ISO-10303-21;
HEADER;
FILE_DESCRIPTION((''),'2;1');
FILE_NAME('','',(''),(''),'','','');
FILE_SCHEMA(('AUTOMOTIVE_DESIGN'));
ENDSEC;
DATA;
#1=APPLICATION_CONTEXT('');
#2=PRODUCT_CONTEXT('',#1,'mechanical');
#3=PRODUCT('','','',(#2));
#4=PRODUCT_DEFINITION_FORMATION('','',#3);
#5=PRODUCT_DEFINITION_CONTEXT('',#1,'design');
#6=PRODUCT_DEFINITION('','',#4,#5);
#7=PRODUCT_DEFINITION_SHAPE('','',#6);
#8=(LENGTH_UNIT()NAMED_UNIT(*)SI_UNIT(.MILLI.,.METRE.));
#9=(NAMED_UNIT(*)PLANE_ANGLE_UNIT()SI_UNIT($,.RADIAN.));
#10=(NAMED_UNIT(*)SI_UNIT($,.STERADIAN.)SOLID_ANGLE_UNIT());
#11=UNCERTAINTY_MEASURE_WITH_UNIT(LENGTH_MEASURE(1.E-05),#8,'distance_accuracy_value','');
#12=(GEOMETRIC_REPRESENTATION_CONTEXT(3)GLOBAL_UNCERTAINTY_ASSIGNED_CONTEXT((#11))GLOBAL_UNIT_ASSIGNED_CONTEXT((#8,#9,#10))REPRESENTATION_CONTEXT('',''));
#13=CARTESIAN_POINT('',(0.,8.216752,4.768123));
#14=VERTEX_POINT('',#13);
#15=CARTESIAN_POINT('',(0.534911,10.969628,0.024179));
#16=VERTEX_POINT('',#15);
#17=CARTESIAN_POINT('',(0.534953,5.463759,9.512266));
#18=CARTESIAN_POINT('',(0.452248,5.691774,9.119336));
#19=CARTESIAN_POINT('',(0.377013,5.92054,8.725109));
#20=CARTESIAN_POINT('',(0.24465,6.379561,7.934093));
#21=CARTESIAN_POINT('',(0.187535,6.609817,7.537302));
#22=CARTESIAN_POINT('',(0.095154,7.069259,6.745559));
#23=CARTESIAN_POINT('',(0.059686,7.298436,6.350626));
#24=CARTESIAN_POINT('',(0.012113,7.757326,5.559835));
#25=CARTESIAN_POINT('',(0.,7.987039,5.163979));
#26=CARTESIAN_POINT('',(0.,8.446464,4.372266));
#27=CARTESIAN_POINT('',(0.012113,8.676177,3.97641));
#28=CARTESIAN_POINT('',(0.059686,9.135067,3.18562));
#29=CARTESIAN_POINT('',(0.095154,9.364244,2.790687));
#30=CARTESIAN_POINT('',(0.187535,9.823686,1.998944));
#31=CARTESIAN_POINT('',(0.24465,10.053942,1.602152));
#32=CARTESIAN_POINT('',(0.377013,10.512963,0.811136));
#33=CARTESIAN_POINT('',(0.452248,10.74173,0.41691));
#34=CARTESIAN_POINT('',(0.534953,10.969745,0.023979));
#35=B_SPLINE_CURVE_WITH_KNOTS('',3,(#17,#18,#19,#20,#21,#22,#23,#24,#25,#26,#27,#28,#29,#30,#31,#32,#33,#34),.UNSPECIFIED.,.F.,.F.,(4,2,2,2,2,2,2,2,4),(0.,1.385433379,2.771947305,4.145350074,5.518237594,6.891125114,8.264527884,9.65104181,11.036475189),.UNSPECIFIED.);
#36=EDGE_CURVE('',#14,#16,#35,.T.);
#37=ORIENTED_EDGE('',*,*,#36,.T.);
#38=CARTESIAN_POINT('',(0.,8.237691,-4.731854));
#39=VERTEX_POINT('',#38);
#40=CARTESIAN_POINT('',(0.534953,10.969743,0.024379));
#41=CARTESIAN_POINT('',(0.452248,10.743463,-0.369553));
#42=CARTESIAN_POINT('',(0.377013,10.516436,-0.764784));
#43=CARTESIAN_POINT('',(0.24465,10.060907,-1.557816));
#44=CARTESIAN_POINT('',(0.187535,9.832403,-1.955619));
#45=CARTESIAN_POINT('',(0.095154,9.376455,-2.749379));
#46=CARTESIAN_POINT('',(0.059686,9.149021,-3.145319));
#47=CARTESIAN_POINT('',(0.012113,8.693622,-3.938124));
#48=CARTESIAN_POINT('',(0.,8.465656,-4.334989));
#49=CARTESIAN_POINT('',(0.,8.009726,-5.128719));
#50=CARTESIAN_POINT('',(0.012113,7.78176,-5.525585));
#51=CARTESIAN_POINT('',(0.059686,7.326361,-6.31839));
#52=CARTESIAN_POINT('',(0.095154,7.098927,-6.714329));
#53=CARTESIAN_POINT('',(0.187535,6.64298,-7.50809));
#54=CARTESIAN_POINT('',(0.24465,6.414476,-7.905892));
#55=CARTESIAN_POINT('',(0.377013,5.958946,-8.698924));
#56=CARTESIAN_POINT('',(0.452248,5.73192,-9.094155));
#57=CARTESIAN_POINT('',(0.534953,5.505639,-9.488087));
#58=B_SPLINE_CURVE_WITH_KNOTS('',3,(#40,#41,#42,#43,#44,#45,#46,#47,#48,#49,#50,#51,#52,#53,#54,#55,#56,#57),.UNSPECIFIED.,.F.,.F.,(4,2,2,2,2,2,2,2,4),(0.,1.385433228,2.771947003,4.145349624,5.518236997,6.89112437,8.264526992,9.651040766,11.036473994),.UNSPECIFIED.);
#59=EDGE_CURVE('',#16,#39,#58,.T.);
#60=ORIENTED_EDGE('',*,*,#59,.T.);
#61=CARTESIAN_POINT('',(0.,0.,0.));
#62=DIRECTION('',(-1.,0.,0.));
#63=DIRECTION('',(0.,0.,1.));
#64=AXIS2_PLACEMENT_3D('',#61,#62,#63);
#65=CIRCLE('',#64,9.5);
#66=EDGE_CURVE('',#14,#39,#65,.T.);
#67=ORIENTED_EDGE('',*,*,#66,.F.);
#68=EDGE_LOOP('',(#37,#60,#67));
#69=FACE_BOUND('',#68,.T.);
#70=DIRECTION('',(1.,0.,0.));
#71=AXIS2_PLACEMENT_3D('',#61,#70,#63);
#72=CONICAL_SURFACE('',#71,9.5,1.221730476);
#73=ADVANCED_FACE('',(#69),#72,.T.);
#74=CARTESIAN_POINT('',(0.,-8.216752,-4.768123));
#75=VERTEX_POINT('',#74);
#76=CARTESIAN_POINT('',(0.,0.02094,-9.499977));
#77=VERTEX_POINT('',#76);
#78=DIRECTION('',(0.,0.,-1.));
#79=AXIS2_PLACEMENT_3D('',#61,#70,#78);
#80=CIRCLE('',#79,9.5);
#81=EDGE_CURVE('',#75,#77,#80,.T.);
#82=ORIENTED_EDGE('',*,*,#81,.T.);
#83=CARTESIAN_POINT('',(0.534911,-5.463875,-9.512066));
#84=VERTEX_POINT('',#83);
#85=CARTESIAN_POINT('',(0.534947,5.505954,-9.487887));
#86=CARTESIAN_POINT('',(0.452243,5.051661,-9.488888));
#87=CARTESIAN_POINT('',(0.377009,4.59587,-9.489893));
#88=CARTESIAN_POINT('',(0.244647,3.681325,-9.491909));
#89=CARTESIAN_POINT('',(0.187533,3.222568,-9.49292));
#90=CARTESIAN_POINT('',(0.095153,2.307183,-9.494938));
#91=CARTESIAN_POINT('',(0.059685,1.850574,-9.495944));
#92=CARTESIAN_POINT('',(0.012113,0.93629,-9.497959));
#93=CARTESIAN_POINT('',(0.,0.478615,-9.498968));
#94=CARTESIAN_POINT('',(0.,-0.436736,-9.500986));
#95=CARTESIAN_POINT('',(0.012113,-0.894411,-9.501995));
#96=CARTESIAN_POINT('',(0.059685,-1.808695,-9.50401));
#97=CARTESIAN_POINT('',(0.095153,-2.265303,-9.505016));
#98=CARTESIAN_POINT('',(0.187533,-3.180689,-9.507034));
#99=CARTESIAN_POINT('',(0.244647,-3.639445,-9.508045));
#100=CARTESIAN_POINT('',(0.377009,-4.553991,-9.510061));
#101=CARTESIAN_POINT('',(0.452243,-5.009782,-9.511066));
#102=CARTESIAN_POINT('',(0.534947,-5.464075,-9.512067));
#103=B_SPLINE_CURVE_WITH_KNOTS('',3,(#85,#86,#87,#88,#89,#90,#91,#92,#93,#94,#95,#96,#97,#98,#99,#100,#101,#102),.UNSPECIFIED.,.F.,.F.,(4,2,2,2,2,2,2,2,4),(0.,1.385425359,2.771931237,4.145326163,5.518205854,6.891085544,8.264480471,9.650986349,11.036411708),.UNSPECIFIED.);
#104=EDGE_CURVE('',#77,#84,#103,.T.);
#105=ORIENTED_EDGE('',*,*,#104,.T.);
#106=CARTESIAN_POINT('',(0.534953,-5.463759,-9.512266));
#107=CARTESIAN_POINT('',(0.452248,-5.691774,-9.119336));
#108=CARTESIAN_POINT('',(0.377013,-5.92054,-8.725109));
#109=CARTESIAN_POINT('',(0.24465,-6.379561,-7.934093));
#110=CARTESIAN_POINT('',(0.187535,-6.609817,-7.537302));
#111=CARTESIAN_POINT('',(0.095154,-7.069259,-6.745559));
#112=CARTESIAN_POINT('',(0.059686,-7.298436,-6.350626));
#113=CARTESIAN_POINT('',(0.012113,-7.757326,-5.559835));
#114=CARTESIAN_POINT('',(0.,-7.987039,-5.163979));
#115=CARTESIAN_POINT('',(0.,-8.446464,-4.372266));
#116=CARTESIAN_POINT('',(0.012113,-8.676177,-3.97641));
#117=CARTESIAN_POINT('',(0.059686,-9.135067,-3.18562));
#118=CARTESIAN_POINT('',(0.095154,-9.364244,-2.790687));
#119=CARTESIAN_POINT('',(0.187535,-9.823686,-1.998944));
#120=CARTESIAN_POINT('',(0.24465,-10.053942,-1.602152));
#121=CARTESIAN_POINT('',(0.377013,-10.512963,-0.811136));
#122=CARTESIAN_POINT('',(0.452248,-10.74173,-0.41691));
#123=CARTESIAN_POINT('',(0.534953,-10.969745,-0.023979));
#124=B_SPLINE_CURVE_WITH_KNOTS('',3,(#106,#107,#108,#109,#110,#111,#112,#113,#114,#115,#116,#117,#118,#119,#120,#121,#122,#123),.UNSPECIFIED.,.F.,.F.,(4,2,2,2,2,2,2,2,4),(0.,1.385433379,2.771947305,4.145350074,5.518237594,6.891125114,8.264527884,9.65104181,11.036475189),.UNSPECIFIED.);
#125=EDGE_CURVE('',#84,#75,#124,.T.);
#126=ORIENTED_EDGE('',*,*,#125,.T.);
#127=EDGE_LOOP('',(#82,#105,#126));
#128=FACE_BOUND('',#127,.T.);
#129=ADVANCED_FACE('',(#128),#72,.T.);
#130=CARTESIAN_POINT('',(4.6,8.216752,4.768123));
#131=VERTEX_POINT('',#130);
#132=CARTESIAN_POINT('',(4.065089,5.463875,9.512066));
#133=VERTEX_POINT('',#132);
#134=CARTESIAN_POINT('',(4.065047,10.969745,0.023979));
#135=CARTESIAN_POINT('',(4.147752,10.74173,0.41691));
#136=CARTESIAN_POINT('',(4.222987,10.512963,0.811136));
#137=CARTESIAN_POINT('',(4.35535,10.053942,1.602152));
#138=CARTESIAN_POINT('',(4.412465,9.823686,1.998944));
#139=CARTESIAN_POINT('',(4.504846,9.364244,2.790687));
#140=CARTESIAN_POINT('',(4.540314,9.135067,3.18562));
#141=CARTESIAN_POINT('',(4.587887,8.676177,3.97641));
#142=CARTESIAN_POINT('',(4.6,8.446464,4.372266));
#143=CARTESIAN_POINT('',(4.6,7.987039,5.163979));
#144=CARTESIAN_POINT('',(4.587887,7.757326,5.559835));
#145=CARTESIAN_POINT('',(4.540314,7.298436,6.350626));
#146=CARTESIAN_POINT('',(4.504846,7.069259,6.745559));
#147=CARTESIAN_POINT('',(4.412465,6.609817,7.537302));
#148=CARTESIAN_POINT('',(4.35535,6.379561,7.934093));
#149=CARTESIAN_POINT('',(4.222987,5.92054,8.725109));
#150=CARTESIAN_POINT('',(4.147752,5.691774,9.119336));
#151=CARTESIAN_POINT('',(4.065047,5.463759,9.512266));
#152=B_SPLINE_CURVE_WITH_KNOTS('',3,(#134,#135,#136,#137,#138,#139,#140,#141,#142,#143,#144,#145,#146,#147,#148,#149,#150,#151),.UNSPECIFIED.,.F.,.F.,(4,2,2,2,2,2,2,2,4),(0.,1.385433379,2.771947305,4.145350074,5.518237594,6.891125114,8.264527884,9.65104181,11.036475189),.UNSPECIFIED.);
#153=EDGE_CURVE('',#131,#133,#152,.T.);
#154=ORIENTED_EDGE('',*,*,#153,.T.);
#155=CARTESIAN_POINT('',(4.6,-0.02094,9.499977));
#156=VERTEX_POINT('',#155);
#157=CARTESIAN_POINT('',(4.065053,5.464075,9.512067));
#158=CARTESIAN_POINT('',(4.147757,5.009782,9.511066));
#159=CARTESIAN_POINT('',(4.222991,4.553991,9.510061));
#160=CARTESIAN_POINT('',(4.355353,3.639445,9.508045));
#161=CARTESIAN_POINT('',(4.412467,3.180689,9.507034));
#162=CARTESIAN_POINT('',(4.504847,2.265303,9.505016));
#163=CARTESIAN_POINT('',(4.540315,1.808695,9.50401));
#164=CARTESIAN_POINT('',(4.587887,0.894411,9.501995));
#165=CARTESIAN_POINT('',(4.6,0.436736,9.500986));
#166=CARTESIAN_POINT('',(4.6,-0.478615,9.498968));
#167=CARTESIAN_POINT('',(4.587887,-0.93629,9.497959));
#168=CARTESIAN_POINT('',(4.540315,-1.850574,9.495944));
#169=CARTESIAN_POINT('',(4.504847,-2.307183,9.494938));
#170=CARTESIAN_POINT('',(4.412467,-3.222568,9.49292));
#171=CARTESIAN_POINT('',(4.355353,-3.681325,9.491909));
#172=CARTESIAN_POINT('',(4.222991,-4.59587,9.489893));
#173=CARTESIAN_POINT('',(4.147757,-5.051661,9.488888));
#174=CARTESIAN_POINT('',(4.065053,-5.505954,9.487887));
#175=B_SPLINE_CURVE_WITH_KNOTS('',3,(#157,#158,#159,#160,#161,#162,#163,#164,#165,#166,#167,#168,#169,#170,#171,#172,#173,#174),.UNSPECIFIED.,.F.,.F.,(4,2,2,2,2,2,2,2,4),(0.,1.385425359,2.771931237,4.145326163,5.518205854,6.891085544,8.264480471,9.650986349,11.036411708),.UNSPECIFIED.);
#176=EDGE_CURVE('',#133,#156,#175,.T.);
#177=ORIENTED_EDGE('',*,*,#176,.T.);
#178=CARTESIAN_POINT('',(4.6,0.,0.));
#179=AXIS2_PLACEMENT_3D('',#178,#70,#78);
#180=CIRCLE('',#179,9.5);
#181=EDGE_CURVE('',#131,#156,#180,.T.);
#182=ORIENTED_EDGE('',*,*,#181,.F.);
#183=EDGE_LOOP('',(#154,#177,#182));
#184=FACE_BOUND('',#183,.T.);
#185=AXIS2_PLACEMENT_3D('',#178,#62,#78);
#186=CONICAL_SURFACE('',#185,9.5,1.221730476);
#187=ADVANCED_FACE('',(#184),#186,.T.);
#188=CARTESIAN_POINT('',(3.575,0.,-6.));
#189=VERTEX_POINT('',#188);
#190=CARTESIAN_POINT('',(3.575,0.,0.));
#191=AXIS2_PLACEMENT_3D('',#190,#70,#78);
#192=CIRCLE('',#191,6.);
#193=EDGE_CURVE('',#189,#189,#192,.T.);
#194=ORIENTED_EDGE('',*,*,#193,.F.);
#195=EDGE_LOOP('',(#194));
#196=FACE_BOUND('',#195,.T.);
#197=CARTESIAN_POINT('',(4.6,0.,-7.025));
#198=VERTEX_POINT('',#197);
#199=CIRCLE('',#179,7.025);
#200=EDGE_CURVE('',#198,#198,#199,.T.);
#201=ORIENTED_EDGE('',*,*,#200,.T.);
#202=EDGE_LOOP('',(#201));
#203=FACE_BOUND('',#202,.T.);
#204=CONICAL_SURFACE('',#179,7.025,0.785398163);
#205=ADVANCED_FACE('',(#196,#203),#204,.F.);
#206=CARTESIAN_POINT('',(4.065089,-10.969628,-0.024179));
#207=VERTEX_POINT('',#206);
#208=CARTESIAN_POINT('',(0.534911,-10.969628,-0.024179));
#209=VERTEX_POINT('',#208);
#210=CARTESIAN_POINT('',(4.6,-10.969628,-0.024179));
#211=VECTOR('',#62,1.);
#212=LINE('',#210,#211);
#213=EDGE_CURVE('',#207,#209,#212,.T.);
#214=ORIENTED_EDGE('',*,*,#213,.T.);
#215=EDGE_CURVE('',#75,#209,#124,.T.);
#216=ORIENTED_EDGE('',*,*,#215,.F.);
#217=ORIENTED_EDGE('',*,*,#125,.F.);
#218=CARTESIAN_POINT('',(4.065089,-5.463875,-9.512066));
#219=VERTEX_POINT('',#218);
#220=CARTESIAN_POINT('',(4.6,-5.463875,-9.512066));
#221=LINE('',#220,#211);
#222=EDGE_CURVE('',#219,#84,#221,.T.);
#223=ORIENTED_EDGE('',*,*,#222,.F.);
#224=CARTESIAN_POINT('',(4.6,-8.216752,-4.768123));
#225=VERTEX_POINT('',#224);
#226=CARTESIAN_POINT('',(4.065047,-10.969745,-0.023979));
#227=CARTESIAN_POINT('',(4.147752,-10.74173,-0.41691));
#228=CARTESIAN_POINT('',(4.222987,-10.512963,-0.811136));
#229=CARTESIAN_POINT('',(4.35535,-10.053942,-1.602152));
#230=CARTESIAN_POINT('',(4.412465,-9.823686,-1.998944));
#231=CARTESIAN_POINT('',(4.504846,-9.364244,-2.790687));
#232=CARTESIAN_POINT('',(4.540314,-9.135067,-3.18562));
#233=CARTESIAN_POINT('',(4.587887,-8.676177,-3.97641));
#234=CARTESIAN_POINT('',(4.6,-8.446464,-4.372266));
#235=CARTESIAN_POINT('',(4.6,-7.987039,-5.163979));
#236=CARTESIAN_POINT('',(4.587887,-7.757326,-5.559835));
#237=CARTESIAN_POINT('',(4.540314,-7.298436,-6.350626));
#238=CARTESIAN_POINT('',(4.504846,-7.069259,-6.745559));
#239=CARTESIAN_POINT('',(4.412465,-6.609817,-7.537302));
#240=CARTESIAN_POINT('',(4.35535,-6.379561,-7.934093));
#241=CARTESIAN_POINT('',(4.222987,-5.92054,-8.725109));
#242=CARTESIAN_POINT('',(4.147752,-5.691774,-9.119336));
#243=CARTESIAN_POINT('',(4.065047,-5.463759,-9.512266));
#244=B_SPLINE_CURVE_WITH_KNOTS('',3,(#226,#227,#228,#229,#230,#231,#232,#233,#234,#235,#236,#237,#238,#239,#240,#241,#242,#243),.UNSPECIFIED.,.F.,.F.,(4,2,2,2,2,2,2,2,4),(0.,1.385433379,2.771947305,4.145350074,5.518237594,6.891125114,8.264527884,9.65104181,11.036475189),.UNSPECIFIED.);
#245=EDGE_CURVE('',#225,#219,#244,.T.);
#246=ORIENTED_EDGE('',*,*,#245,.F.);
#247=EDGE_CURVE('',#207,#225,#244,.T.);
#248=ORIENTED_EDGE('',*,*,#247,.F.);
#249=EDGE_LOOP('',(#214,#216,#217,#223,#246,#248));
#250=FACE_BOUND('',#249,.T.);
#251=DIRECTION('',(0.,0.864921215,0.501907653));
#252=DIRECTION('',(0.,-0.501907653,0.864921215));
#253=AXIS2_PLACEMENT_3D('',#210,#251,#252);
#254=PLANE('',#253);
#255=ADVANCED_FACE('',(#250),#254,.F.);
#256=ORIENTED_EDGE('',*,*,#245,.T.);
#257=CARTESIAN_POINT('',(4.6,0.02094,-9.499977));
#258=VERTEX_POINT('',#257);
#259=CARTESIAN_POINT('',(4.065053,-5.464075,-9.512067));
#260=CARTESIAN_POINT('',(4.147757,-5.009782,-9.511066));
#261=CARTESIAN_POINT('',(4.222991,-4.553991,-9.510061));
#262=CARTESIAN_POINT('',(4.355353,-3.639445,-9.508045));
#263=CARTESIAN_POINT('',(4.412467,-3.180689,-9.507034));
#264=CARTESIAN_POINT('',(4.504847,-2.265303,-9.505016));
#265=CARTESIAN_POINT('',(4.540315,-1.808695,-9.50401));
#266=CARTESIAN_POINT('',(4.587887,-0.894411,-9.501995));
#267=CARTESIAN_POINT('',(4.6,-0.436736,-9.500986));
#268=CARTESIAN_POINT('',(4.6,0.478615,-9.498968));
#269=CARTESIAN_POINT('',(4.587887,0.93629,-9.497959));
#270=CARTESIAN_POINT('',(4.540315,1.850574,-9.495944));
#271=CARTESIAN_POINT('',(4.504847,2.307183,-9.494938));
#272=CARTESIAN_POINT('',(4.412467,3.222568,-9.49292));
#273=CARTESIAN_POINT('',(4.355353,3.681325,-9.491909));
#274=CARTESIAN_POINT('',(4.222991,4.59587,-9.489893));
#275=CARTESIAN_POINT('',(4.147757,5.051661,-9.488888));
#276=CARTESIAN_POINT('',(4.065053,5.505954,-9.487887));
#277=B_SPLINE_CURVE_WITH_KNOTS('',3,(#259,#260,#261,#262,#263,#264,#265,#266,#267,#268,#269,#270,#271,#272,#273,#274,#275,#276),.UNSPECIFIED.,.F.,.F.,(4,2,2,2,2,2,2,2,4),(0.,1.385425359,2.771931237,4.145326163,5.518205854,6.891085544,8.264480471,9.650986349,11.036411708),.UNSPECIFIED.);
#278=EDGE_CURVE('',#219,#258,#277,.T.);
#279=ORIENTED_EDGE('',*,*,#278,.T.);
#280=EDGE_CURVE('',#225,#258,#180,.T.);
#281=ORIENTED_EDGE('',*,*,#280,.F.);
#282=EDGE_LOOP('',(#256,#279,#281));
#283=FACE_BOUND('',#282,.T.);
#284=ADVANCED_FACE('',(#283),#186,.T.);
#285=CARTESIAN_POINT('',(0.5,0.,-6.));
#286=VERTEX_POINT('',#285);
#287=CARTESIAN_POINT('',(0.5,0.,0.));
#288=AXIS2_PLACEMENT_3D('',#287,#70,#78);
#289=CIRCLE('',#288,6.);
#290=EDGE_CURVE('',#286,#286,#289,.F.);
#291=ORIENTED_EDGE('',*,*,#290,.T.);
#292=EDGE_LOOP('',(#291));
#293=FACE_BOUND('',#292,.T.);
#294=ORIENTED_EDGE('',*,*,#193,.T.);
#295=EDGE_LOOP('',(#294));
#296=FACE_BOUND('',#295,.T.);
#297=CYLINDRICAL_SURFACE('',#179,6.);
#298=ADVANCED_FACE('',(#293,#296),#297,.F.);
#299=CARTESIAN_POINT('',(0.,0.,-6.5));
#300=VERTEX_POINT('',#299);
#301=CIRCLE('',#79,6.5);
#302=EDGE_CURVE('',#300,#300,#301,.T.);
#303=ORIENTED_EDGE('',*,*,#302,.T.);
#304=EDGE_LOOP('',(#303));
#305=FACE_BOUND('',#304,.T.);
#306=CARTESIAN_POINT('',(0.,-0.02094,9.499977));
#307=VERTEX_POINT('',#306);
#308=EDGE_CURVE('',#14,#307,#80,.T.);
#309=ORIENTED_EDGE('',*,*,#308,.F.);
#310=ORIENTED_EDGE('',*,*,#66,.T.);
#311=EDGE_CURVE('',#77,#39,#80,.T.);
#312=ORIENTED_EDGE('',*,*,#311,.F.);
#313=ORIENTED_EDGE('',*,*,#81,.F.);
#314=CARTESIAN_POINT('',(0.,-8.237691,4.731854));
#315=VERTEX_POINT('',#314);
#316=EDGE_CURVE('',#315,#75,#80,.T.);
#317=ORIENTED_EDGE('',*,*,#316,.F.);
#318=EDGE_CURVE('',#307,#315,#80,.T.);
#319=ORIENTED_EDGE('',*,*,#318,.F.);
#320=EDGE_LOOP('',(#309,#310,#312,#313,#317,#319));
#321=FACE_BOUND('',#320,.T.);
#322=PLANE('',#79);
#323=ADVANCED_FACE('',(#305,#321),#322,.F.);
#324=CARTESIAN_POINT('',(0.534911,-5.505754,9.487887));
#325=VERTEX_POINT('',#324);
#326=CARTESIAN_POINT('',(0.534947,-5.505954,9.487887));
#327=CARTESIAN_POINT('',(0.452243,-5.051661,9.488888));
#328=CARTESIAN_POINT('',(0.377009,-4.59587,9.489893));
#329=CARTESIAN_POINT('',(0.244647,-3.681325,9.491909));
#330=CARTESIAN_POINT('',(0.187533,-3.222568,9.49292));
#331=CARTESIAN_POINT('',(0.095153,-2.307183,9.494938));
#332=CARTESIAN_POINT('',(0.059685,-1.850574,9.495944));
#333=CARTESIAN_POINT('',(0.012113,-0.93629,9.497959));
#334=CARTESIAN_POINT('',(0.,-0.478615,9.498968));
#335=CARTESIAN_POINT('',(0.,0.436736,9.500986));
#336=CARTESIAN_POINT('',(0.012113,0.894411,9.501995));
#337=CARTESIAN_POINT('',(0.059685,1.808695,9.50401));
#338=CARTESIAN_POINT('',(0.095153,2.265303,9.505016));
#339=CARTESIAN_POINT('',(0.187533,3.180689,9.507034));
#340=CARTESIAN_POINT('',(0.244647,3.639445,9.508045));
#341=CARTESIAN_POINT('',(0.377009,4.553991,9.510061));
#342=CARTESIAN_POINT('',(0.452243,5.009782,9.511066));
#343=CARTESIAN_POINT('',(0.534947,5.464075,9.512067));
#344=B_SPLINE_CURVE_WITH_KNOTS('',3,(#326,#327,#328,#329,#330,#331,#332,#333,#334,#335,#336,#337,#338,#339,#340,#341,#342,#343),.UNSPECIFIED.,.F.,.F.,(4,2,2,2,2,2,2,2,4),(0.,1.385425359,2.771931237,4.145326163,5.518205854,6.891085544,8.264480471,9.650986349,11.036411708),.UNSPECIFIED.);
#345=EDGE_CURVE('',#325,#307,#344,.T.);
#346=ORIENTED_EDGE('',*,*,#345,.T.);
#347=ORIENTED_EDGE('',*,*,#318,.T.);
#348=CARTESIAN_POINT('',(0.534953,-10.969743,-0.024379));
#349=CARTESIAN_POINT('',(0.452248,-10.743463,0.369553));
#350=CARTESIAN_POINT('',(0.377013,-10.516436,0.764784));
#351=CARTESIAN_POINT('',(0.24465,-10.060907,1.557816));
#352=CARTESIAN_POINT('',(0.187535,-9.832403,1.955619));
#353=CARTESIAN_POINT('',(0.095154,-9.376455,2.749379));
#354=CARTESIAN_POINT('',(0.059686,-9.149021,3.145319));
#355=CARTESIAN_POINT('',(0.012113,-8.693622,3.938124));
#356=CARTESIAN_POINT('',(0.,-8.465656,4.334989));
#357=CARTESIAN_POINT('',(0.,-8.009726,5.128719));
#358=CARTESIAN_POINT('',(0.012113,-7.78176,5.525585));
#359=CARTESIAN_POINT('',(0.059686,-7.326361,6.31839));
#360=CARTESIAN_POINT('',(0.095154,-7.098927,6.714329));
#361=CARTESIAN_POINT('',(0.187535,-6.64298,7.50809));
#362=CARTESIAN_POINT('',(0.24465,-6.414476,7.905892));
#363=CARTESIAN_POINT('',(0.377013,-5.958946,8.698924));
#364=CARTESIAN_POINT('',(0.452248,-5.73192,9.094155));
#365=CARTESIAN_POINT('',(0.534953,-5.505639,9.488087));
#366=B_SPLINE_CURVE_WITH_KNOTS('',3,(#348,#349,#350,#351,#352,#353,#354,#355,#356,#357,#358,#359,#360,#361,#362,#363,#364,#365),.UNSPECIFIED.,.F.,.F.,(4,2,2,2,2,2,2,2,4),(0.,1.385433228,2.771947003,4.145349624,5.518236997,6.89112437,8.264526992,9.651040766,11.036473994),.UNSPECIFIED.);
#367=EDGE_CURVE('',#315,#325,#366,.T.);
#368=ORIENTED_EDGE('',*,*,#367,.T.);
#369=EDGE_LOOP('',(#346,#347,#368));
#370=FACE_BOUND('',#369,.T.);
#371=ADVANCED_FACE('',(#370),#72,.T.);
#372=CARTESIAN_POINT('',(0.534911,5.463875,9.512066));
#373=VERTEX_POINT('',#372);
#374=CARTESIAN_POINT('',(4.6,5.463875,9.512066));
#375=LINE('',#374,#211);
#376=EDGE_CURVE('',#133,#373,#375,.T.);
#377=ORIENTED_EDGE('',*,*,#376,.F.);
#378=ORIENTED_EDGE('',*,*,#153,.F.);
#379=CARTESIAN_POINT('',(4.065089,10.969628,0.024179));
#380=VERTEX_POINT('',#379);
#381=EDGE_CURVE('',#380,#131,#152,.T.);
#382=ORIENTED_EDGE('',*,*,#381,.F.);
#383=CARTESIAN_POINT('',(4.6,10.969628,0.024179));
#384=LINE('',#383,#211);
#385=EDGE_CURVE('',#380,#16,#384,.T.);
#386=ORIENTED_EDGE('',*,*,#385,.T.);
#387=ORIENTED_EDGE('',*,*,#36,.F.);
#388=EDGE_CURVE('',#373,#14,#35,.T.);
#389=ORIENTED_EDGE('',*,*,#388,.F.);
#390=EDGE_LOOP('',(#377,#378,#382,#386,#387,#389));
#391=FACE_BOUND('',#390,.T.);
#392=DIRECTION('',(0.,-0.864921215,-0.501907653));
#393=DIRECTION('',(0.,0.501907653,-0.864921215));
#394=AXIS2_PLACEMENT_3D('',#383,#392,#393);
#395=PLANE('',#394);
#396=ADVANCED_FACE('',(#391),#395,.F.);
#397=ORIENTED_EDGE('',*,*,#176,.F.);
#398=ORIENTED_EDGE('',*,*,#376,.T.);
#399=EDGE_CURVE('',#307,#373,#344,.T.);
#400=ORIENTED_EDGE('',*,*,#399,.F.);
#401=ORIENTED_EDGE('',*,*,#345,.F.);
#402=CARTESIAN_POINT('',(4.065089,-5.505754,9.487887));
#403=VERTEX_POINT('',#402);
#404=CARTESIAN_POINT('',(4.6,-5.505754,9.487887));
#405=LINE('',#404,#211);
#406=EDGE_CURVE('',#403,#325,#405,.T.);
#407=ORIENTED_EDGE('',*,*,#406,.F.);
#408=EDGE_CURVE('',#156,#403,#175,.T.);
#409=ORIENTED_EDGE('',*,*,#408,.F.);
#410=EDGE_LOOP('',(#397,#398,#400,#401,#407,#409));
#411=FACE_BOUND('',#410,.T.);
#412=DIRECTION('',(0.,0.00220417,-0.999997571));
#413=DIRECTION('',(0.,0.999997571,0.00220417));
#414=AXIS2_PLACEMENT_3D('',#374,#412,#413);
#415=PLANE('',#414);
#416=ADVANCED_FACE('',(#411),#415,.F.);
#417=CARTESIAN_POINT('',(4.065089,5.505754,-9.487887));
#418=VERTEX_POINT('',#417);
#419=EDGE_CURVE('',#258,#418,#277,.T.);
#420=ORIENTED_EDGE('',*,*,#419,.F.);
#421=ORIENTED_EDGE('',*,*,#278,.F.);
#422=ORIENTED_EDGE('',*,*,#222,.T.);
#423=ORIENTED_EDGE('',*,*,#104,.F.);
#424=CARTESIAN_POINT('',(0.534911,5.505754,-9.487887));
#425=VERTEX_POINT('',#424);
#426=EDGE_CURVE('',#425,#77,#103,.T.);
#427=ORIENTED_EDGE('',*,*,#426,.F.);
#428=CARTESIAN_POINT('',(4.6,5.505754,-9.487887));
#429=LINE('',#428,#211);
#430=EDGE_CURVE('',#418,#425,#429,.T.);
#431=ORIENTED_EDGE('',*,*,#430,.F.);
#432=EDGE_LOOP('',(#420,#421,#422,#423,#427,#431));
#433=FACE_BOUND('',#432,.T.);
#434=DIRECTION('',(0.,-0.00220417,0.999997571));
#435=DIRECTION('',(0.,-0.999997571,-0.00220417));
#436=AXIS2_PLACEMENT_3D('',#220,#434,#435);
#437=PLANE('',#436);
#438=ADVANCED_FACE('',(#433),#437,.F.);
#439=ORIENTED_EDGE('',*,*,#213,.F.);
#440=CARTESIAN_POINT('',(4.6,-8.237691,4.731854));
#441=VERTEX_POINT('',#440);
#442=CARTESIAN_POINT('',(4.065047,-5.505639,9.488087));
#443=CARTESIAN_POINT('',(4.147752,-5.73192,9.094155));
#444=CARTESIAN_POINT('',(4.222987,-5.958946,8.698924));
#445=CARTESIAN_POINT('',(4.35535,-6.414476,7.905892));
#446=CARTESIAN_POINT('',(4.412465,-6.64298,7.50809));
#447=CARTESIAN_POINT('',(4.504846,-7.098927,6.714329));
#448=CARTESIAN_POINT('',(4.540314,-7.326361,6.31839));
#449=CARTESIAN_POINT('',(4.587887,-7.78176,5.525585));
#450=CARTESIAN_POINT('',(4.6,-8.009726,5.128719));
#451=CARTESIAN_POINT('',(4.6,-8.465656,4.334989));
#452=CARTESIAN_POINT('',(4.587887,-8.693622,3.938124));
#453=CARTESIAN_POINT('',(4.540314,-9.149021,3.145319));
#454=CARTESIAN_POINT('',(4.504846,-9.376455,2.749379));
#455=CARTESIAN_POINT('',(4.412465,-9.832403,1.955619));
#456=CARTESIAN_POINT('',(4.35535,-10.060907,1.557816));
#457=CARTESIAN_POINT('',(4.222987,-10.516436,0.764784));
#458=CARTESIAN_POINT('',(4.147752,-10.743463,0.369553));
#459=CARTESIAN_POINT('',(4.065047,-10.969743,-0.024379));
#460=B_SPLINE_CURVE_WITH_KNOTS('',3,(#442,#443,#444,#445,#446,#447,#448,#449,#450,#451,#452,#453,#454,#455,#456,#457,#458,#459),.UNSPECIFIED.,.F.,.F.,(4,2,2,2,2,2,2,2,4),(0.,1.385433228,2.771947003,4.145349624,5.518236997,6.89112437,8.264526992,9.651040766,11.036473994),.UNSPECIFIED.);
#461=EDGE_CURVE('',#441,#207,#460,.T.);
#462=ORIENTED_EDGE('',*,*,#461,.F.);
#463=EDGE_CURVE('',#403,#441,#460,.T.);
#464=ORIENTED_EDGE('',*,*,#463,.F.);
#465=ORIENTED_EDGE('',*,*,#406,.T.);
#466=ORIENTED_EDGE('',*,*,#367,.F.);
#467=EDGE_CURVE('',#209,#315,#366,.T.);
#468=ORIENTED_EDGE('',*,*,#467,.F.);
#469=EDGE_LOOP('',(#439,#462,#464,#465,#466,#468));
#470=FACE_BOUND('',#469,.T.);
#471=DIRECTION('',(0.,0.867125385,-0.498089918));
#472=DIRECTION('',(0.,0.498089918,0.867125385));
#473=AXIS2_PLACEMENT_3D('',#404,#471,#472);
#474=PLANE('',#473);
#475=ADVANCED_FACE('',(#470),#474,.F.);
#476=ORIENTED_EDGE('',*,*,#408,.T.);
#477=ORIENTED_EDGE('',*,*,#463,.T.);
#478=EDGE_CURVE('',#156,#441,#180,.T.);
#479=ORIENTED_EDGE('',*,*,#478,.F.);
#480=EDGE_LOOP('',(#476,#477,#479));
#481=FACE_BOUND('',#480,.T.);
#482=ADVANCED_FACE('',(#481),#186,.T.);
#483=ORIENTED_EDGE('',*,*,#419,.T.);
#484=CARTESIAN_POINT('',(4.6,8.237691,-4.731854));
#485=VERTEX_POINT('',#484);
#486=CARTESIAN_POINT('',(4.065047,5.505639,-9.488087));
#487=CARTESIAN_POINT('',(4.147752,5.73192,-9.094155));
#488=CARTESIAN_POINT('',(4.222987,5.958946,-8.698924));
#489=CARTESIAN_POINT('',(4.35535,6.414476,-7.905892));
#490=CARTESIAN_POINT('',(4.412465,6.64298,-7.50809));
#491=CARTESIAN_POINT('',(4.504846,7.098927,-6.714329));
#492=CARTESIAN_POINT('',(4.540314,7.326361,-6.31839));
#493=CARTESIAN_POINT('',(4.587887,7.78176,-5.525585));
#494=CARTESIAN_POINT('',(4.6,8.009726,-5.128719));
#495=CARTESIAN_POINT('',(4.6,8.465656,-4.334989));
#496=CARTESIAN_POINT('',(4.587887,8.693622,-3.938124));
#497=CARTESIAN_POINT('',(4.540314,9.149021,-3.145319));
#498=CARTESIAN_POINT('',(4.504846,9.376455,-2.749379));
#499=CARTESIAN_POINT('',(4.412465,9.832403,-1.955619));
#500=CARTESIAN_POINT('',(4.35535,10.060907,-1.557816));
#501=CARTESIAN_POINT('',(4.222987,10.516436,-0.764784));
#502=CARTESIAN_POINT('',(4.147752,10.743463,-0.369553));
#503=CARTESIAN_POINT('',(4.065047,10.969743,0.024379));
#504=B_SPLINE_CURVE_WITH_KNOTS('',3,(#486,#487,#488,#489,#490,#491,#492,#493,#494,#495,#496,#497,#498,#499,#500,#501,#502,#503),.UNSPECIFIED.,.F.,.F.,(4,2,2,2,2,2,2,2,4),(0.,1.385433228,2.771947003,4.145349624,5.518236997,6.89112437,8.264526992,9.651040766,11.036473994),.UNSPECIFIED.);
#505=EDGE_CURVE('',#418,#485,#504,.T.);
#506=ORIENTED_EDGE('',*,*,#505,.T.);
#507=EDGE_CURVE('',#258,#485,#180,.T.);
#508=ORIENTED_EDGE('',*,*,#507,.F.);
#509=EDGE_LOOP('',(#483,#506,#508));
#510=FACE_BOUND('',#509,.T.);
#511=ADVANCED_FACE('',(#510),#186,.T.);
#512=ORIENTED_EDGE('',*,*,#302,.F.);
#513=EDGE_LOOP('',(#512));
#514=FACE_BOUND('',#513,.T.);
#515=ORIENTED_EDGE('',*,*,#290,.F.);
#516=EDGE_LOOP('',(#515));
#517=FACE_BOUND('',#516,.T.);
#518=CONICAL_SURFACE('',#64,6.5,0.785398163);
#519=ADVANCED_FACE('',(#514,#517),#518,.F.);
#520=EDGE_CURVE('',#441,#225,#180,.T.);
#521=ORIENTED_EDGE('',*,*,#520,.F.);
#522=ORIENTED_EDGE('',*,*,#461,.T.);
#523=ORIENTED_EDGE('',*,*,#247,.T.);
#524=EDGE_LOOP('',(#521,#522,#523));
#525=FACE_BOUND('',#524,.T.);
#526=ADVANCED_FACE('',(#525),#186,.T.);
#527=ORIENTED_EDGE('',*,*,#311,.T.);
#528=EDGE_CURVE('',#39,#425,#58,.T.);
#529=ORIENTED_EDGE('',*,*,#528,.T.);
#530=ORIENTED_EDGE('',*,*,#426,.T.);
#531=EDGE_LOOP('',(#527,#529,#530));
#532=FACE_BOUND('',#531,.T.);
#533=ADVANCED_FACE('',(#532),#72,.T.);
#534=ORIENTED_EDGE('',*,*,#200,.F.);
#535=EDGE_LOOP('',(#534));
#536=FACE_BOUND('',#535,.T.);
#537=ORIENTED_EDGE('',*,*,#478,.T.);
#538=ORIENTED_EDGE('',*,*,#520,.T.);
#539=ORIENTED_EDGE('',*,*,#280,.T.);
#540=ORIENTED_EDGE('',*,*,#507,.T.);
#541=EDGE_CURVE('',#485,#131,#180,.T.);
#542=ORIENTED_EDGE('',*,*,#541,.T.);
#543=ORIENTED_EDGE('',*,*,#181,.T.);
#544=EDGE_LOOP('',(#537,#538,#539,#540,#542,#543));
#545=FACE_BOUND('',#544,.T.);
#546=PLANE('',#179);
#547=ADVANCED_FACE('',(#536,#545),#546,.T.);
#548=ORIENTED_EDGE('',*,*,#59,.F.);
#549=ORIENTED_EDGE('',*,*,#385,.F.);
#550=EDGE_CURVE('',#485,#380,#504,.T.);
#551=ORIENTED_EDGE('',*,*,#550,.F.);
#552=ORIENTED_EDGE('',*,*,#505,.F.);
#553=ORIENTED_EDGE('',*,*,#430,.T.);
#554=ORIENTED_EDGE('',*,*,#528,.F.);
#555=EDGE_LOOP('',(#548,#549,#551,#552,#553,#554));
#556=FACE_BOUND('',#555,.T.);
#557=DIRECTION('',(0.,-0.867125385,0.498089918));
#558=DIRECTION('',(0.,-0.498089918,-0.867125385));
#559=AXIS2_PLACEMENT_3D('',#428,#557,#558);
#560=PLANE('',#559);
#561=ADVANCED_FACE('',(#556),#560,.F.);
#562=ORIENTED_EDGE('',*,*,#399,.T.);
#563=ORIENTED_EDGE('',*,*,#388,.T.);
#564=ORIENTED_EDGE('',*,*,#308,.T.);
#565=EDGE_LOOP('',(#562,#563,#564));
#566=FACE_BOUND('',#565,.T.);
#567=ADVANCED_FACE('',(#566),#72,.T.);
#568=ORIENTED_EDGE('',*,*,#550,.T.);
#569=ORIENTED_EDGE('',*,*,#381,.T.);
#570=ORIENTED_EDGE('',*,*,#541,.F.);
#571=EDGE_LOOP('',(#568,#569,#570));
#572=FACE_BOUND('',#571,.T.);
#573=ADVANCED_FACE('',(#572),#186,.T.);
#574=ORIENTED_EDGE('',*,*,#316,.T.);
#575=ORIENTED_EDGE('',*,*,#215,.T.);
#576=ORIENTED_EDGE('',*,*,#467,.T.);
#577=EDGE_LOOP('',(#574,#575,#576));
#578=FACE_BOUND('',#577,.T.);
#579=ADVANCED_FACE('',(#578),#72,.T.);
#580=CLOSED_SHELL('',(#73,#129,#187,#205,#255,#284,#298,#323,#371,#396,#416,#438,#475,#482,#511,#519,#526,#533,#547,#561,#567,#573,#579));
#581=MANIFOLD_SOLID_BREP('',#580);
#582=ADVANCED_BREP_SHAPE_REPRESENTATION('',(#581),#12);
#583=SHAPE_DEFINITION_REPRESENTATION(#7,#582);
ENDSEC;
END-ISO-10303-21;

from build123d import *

# Parameters (mm, degrees)
RESSALTO_EXTRUS_O1_DEPTH = 4.6
CHANFRO1_SIZE            = 0.5
ESBO_O8_OUTSIDE_W        = 98.338
ESBO_O8_OUTSIDE_H        = 101.254
ESBO_O8_OUTSIDE_R        = 9.5
CORTE_EXTRUS_O1_DEPTH    = 13
CORTE_EXTRUS_O1_DRAFT    = -70
ESBO_O9_OUTSIDE_W        = 98.338
ESBO_O9_OUTSIDE_H        = 101.254
ESBO_O9_OUTSIDE_R        = 9.5
CORTE_EXTRUS_O2_DEPTH    = 13
CORTE_EXTRUS_O2_DRAFT    = -70


with BuildPart() as part:
    # Esboço1 → Ressalto-extrusão1 (new body)
    with BuildSketch(Plane(origin=(0, 0, 0), x_dir=(0, 0, -1), z_dir=(1, 0, 0))):
        Polygon((9.487887431, 5.505753848), (-0.024178983, 10.969628467), (-9.512066414, 5.46387462), (-9.487887431, -5.505753848), (0.024178983, -10.969628467), (9.512066414, -5.46387462), align=None)
    extrude(amount=RESSALTO_EXTRUS_O1_DEPTH)

    # Esboço6 → Furo roscado de M141 (revolve, cut)
    with BuildSketch(Plane(origin=(4.6, 0, 0), x_dir=(0, 0, -1), z_dir=(0, 1, 0))):
        Polygon((0, 0), (0, 4.6), (6, 4.6), (6, 1.025), (7.025, 0), align=None)
    revolve(axis=Axis((10.95, 0, 0), (-1, 0, 0)), mode=Mode.SUBTRACT)

    # Chanfro1
    chanfro1_edges = [part.edges().sort_by_distance(p)[0] for p in [
        (0, 0, 6),
    ]]
    chamfer(chanfro1_edges, length=CHANFRO1_SIZE)


with BuildPart() as corte_extrus_o1_tool:
    # Esboço8 outside → Corte-extrusão1 (with draft: the straight prism first)
    with BuildSketch(Plane.ZY):
        Rectangle(ESBO_O8_OUTSIDE_W, ESBO_O8_OUTSIDE_H)
        Circle(ESBO_O8_OUTSIDE_R, mode=Mode.SUBTRACT)
    extrude(amount=-CORTE_EXTRUS_O1_DEPTH)
    # Corte-extrusão1: the draft: its side faces are tilted about the plane it starts from
    corte_extrus_o1_sides = [corte_extrus_o1_tool.faces().sort_by_distance(p)[0] for p in [
        (6.5, -50.627, 0),
        (6.5, 0, 49.169),
        (6.5, 50.627, 0),
        (6.5, 0, -49.169),
        (6.5, 0, -9.5),
    ]]
    draft(corte_extrus_o1_sides, Plane.ZY, CORTE_EXTRUS_O1_DRAFT)


with BuildPart() as part_1:
    add(part.part)

    # Corte-extrusão1: cut by corte_extrus_o1_tool
    add(corte_extrus_o1_tool.part, mode=Mode.SUBTRACT)


with BuildPart() as corte_extrus_o2_tool:
    # Esboço9 outside → Corte-extrusão2 (with draft: the straight prism first)
    with BuildSketch(Plane(origin=(4.6, 0, 0), x_dir=(0, 0, -1), z_dir=(1, 0, 0))):
        Rectangle(ESBO_O9_OUTSIDE_W, ESBO_O9_OUTSIDE_H)
        Circle(ESBO_O9_OUTSIDE_R, mode=Mode.SUBTRACT)
    extrude(amount=-CORTE_EXTRUS_O2_DEPTH)
    # Corte-extrusão2: the draft: its side faces are tilted about the plane it starts from
    corte_extrus_o2_sides = [corte_extrus_o2_tool.faces().sort_by_distance(p)[0] for p in [
        (-1.9, -50.627, 0),
        (-1.9, 0, -49.169),
        (-1.9, 50.627, 0),
        (-1.9, 0, 49.169),
        (-1.9, 0, 9.5),
    ]]
    draft(corte_extrus_o2_sides, Plane(origin=(4.6, 0, 0), x_dir=(0, 0, -1), z_dir=(1, 0, 0)), CORTE_EXTRUS_O2_DRAFT)


with BuildPart() as part_2:
    add(part_1.part)

    # Corte-extrusão2: cut by corte_extrus_o2_tool
    add(corte_extrus_o2_tool.part, mode=Mode.SUBTRACT)


solid = part_2.part
